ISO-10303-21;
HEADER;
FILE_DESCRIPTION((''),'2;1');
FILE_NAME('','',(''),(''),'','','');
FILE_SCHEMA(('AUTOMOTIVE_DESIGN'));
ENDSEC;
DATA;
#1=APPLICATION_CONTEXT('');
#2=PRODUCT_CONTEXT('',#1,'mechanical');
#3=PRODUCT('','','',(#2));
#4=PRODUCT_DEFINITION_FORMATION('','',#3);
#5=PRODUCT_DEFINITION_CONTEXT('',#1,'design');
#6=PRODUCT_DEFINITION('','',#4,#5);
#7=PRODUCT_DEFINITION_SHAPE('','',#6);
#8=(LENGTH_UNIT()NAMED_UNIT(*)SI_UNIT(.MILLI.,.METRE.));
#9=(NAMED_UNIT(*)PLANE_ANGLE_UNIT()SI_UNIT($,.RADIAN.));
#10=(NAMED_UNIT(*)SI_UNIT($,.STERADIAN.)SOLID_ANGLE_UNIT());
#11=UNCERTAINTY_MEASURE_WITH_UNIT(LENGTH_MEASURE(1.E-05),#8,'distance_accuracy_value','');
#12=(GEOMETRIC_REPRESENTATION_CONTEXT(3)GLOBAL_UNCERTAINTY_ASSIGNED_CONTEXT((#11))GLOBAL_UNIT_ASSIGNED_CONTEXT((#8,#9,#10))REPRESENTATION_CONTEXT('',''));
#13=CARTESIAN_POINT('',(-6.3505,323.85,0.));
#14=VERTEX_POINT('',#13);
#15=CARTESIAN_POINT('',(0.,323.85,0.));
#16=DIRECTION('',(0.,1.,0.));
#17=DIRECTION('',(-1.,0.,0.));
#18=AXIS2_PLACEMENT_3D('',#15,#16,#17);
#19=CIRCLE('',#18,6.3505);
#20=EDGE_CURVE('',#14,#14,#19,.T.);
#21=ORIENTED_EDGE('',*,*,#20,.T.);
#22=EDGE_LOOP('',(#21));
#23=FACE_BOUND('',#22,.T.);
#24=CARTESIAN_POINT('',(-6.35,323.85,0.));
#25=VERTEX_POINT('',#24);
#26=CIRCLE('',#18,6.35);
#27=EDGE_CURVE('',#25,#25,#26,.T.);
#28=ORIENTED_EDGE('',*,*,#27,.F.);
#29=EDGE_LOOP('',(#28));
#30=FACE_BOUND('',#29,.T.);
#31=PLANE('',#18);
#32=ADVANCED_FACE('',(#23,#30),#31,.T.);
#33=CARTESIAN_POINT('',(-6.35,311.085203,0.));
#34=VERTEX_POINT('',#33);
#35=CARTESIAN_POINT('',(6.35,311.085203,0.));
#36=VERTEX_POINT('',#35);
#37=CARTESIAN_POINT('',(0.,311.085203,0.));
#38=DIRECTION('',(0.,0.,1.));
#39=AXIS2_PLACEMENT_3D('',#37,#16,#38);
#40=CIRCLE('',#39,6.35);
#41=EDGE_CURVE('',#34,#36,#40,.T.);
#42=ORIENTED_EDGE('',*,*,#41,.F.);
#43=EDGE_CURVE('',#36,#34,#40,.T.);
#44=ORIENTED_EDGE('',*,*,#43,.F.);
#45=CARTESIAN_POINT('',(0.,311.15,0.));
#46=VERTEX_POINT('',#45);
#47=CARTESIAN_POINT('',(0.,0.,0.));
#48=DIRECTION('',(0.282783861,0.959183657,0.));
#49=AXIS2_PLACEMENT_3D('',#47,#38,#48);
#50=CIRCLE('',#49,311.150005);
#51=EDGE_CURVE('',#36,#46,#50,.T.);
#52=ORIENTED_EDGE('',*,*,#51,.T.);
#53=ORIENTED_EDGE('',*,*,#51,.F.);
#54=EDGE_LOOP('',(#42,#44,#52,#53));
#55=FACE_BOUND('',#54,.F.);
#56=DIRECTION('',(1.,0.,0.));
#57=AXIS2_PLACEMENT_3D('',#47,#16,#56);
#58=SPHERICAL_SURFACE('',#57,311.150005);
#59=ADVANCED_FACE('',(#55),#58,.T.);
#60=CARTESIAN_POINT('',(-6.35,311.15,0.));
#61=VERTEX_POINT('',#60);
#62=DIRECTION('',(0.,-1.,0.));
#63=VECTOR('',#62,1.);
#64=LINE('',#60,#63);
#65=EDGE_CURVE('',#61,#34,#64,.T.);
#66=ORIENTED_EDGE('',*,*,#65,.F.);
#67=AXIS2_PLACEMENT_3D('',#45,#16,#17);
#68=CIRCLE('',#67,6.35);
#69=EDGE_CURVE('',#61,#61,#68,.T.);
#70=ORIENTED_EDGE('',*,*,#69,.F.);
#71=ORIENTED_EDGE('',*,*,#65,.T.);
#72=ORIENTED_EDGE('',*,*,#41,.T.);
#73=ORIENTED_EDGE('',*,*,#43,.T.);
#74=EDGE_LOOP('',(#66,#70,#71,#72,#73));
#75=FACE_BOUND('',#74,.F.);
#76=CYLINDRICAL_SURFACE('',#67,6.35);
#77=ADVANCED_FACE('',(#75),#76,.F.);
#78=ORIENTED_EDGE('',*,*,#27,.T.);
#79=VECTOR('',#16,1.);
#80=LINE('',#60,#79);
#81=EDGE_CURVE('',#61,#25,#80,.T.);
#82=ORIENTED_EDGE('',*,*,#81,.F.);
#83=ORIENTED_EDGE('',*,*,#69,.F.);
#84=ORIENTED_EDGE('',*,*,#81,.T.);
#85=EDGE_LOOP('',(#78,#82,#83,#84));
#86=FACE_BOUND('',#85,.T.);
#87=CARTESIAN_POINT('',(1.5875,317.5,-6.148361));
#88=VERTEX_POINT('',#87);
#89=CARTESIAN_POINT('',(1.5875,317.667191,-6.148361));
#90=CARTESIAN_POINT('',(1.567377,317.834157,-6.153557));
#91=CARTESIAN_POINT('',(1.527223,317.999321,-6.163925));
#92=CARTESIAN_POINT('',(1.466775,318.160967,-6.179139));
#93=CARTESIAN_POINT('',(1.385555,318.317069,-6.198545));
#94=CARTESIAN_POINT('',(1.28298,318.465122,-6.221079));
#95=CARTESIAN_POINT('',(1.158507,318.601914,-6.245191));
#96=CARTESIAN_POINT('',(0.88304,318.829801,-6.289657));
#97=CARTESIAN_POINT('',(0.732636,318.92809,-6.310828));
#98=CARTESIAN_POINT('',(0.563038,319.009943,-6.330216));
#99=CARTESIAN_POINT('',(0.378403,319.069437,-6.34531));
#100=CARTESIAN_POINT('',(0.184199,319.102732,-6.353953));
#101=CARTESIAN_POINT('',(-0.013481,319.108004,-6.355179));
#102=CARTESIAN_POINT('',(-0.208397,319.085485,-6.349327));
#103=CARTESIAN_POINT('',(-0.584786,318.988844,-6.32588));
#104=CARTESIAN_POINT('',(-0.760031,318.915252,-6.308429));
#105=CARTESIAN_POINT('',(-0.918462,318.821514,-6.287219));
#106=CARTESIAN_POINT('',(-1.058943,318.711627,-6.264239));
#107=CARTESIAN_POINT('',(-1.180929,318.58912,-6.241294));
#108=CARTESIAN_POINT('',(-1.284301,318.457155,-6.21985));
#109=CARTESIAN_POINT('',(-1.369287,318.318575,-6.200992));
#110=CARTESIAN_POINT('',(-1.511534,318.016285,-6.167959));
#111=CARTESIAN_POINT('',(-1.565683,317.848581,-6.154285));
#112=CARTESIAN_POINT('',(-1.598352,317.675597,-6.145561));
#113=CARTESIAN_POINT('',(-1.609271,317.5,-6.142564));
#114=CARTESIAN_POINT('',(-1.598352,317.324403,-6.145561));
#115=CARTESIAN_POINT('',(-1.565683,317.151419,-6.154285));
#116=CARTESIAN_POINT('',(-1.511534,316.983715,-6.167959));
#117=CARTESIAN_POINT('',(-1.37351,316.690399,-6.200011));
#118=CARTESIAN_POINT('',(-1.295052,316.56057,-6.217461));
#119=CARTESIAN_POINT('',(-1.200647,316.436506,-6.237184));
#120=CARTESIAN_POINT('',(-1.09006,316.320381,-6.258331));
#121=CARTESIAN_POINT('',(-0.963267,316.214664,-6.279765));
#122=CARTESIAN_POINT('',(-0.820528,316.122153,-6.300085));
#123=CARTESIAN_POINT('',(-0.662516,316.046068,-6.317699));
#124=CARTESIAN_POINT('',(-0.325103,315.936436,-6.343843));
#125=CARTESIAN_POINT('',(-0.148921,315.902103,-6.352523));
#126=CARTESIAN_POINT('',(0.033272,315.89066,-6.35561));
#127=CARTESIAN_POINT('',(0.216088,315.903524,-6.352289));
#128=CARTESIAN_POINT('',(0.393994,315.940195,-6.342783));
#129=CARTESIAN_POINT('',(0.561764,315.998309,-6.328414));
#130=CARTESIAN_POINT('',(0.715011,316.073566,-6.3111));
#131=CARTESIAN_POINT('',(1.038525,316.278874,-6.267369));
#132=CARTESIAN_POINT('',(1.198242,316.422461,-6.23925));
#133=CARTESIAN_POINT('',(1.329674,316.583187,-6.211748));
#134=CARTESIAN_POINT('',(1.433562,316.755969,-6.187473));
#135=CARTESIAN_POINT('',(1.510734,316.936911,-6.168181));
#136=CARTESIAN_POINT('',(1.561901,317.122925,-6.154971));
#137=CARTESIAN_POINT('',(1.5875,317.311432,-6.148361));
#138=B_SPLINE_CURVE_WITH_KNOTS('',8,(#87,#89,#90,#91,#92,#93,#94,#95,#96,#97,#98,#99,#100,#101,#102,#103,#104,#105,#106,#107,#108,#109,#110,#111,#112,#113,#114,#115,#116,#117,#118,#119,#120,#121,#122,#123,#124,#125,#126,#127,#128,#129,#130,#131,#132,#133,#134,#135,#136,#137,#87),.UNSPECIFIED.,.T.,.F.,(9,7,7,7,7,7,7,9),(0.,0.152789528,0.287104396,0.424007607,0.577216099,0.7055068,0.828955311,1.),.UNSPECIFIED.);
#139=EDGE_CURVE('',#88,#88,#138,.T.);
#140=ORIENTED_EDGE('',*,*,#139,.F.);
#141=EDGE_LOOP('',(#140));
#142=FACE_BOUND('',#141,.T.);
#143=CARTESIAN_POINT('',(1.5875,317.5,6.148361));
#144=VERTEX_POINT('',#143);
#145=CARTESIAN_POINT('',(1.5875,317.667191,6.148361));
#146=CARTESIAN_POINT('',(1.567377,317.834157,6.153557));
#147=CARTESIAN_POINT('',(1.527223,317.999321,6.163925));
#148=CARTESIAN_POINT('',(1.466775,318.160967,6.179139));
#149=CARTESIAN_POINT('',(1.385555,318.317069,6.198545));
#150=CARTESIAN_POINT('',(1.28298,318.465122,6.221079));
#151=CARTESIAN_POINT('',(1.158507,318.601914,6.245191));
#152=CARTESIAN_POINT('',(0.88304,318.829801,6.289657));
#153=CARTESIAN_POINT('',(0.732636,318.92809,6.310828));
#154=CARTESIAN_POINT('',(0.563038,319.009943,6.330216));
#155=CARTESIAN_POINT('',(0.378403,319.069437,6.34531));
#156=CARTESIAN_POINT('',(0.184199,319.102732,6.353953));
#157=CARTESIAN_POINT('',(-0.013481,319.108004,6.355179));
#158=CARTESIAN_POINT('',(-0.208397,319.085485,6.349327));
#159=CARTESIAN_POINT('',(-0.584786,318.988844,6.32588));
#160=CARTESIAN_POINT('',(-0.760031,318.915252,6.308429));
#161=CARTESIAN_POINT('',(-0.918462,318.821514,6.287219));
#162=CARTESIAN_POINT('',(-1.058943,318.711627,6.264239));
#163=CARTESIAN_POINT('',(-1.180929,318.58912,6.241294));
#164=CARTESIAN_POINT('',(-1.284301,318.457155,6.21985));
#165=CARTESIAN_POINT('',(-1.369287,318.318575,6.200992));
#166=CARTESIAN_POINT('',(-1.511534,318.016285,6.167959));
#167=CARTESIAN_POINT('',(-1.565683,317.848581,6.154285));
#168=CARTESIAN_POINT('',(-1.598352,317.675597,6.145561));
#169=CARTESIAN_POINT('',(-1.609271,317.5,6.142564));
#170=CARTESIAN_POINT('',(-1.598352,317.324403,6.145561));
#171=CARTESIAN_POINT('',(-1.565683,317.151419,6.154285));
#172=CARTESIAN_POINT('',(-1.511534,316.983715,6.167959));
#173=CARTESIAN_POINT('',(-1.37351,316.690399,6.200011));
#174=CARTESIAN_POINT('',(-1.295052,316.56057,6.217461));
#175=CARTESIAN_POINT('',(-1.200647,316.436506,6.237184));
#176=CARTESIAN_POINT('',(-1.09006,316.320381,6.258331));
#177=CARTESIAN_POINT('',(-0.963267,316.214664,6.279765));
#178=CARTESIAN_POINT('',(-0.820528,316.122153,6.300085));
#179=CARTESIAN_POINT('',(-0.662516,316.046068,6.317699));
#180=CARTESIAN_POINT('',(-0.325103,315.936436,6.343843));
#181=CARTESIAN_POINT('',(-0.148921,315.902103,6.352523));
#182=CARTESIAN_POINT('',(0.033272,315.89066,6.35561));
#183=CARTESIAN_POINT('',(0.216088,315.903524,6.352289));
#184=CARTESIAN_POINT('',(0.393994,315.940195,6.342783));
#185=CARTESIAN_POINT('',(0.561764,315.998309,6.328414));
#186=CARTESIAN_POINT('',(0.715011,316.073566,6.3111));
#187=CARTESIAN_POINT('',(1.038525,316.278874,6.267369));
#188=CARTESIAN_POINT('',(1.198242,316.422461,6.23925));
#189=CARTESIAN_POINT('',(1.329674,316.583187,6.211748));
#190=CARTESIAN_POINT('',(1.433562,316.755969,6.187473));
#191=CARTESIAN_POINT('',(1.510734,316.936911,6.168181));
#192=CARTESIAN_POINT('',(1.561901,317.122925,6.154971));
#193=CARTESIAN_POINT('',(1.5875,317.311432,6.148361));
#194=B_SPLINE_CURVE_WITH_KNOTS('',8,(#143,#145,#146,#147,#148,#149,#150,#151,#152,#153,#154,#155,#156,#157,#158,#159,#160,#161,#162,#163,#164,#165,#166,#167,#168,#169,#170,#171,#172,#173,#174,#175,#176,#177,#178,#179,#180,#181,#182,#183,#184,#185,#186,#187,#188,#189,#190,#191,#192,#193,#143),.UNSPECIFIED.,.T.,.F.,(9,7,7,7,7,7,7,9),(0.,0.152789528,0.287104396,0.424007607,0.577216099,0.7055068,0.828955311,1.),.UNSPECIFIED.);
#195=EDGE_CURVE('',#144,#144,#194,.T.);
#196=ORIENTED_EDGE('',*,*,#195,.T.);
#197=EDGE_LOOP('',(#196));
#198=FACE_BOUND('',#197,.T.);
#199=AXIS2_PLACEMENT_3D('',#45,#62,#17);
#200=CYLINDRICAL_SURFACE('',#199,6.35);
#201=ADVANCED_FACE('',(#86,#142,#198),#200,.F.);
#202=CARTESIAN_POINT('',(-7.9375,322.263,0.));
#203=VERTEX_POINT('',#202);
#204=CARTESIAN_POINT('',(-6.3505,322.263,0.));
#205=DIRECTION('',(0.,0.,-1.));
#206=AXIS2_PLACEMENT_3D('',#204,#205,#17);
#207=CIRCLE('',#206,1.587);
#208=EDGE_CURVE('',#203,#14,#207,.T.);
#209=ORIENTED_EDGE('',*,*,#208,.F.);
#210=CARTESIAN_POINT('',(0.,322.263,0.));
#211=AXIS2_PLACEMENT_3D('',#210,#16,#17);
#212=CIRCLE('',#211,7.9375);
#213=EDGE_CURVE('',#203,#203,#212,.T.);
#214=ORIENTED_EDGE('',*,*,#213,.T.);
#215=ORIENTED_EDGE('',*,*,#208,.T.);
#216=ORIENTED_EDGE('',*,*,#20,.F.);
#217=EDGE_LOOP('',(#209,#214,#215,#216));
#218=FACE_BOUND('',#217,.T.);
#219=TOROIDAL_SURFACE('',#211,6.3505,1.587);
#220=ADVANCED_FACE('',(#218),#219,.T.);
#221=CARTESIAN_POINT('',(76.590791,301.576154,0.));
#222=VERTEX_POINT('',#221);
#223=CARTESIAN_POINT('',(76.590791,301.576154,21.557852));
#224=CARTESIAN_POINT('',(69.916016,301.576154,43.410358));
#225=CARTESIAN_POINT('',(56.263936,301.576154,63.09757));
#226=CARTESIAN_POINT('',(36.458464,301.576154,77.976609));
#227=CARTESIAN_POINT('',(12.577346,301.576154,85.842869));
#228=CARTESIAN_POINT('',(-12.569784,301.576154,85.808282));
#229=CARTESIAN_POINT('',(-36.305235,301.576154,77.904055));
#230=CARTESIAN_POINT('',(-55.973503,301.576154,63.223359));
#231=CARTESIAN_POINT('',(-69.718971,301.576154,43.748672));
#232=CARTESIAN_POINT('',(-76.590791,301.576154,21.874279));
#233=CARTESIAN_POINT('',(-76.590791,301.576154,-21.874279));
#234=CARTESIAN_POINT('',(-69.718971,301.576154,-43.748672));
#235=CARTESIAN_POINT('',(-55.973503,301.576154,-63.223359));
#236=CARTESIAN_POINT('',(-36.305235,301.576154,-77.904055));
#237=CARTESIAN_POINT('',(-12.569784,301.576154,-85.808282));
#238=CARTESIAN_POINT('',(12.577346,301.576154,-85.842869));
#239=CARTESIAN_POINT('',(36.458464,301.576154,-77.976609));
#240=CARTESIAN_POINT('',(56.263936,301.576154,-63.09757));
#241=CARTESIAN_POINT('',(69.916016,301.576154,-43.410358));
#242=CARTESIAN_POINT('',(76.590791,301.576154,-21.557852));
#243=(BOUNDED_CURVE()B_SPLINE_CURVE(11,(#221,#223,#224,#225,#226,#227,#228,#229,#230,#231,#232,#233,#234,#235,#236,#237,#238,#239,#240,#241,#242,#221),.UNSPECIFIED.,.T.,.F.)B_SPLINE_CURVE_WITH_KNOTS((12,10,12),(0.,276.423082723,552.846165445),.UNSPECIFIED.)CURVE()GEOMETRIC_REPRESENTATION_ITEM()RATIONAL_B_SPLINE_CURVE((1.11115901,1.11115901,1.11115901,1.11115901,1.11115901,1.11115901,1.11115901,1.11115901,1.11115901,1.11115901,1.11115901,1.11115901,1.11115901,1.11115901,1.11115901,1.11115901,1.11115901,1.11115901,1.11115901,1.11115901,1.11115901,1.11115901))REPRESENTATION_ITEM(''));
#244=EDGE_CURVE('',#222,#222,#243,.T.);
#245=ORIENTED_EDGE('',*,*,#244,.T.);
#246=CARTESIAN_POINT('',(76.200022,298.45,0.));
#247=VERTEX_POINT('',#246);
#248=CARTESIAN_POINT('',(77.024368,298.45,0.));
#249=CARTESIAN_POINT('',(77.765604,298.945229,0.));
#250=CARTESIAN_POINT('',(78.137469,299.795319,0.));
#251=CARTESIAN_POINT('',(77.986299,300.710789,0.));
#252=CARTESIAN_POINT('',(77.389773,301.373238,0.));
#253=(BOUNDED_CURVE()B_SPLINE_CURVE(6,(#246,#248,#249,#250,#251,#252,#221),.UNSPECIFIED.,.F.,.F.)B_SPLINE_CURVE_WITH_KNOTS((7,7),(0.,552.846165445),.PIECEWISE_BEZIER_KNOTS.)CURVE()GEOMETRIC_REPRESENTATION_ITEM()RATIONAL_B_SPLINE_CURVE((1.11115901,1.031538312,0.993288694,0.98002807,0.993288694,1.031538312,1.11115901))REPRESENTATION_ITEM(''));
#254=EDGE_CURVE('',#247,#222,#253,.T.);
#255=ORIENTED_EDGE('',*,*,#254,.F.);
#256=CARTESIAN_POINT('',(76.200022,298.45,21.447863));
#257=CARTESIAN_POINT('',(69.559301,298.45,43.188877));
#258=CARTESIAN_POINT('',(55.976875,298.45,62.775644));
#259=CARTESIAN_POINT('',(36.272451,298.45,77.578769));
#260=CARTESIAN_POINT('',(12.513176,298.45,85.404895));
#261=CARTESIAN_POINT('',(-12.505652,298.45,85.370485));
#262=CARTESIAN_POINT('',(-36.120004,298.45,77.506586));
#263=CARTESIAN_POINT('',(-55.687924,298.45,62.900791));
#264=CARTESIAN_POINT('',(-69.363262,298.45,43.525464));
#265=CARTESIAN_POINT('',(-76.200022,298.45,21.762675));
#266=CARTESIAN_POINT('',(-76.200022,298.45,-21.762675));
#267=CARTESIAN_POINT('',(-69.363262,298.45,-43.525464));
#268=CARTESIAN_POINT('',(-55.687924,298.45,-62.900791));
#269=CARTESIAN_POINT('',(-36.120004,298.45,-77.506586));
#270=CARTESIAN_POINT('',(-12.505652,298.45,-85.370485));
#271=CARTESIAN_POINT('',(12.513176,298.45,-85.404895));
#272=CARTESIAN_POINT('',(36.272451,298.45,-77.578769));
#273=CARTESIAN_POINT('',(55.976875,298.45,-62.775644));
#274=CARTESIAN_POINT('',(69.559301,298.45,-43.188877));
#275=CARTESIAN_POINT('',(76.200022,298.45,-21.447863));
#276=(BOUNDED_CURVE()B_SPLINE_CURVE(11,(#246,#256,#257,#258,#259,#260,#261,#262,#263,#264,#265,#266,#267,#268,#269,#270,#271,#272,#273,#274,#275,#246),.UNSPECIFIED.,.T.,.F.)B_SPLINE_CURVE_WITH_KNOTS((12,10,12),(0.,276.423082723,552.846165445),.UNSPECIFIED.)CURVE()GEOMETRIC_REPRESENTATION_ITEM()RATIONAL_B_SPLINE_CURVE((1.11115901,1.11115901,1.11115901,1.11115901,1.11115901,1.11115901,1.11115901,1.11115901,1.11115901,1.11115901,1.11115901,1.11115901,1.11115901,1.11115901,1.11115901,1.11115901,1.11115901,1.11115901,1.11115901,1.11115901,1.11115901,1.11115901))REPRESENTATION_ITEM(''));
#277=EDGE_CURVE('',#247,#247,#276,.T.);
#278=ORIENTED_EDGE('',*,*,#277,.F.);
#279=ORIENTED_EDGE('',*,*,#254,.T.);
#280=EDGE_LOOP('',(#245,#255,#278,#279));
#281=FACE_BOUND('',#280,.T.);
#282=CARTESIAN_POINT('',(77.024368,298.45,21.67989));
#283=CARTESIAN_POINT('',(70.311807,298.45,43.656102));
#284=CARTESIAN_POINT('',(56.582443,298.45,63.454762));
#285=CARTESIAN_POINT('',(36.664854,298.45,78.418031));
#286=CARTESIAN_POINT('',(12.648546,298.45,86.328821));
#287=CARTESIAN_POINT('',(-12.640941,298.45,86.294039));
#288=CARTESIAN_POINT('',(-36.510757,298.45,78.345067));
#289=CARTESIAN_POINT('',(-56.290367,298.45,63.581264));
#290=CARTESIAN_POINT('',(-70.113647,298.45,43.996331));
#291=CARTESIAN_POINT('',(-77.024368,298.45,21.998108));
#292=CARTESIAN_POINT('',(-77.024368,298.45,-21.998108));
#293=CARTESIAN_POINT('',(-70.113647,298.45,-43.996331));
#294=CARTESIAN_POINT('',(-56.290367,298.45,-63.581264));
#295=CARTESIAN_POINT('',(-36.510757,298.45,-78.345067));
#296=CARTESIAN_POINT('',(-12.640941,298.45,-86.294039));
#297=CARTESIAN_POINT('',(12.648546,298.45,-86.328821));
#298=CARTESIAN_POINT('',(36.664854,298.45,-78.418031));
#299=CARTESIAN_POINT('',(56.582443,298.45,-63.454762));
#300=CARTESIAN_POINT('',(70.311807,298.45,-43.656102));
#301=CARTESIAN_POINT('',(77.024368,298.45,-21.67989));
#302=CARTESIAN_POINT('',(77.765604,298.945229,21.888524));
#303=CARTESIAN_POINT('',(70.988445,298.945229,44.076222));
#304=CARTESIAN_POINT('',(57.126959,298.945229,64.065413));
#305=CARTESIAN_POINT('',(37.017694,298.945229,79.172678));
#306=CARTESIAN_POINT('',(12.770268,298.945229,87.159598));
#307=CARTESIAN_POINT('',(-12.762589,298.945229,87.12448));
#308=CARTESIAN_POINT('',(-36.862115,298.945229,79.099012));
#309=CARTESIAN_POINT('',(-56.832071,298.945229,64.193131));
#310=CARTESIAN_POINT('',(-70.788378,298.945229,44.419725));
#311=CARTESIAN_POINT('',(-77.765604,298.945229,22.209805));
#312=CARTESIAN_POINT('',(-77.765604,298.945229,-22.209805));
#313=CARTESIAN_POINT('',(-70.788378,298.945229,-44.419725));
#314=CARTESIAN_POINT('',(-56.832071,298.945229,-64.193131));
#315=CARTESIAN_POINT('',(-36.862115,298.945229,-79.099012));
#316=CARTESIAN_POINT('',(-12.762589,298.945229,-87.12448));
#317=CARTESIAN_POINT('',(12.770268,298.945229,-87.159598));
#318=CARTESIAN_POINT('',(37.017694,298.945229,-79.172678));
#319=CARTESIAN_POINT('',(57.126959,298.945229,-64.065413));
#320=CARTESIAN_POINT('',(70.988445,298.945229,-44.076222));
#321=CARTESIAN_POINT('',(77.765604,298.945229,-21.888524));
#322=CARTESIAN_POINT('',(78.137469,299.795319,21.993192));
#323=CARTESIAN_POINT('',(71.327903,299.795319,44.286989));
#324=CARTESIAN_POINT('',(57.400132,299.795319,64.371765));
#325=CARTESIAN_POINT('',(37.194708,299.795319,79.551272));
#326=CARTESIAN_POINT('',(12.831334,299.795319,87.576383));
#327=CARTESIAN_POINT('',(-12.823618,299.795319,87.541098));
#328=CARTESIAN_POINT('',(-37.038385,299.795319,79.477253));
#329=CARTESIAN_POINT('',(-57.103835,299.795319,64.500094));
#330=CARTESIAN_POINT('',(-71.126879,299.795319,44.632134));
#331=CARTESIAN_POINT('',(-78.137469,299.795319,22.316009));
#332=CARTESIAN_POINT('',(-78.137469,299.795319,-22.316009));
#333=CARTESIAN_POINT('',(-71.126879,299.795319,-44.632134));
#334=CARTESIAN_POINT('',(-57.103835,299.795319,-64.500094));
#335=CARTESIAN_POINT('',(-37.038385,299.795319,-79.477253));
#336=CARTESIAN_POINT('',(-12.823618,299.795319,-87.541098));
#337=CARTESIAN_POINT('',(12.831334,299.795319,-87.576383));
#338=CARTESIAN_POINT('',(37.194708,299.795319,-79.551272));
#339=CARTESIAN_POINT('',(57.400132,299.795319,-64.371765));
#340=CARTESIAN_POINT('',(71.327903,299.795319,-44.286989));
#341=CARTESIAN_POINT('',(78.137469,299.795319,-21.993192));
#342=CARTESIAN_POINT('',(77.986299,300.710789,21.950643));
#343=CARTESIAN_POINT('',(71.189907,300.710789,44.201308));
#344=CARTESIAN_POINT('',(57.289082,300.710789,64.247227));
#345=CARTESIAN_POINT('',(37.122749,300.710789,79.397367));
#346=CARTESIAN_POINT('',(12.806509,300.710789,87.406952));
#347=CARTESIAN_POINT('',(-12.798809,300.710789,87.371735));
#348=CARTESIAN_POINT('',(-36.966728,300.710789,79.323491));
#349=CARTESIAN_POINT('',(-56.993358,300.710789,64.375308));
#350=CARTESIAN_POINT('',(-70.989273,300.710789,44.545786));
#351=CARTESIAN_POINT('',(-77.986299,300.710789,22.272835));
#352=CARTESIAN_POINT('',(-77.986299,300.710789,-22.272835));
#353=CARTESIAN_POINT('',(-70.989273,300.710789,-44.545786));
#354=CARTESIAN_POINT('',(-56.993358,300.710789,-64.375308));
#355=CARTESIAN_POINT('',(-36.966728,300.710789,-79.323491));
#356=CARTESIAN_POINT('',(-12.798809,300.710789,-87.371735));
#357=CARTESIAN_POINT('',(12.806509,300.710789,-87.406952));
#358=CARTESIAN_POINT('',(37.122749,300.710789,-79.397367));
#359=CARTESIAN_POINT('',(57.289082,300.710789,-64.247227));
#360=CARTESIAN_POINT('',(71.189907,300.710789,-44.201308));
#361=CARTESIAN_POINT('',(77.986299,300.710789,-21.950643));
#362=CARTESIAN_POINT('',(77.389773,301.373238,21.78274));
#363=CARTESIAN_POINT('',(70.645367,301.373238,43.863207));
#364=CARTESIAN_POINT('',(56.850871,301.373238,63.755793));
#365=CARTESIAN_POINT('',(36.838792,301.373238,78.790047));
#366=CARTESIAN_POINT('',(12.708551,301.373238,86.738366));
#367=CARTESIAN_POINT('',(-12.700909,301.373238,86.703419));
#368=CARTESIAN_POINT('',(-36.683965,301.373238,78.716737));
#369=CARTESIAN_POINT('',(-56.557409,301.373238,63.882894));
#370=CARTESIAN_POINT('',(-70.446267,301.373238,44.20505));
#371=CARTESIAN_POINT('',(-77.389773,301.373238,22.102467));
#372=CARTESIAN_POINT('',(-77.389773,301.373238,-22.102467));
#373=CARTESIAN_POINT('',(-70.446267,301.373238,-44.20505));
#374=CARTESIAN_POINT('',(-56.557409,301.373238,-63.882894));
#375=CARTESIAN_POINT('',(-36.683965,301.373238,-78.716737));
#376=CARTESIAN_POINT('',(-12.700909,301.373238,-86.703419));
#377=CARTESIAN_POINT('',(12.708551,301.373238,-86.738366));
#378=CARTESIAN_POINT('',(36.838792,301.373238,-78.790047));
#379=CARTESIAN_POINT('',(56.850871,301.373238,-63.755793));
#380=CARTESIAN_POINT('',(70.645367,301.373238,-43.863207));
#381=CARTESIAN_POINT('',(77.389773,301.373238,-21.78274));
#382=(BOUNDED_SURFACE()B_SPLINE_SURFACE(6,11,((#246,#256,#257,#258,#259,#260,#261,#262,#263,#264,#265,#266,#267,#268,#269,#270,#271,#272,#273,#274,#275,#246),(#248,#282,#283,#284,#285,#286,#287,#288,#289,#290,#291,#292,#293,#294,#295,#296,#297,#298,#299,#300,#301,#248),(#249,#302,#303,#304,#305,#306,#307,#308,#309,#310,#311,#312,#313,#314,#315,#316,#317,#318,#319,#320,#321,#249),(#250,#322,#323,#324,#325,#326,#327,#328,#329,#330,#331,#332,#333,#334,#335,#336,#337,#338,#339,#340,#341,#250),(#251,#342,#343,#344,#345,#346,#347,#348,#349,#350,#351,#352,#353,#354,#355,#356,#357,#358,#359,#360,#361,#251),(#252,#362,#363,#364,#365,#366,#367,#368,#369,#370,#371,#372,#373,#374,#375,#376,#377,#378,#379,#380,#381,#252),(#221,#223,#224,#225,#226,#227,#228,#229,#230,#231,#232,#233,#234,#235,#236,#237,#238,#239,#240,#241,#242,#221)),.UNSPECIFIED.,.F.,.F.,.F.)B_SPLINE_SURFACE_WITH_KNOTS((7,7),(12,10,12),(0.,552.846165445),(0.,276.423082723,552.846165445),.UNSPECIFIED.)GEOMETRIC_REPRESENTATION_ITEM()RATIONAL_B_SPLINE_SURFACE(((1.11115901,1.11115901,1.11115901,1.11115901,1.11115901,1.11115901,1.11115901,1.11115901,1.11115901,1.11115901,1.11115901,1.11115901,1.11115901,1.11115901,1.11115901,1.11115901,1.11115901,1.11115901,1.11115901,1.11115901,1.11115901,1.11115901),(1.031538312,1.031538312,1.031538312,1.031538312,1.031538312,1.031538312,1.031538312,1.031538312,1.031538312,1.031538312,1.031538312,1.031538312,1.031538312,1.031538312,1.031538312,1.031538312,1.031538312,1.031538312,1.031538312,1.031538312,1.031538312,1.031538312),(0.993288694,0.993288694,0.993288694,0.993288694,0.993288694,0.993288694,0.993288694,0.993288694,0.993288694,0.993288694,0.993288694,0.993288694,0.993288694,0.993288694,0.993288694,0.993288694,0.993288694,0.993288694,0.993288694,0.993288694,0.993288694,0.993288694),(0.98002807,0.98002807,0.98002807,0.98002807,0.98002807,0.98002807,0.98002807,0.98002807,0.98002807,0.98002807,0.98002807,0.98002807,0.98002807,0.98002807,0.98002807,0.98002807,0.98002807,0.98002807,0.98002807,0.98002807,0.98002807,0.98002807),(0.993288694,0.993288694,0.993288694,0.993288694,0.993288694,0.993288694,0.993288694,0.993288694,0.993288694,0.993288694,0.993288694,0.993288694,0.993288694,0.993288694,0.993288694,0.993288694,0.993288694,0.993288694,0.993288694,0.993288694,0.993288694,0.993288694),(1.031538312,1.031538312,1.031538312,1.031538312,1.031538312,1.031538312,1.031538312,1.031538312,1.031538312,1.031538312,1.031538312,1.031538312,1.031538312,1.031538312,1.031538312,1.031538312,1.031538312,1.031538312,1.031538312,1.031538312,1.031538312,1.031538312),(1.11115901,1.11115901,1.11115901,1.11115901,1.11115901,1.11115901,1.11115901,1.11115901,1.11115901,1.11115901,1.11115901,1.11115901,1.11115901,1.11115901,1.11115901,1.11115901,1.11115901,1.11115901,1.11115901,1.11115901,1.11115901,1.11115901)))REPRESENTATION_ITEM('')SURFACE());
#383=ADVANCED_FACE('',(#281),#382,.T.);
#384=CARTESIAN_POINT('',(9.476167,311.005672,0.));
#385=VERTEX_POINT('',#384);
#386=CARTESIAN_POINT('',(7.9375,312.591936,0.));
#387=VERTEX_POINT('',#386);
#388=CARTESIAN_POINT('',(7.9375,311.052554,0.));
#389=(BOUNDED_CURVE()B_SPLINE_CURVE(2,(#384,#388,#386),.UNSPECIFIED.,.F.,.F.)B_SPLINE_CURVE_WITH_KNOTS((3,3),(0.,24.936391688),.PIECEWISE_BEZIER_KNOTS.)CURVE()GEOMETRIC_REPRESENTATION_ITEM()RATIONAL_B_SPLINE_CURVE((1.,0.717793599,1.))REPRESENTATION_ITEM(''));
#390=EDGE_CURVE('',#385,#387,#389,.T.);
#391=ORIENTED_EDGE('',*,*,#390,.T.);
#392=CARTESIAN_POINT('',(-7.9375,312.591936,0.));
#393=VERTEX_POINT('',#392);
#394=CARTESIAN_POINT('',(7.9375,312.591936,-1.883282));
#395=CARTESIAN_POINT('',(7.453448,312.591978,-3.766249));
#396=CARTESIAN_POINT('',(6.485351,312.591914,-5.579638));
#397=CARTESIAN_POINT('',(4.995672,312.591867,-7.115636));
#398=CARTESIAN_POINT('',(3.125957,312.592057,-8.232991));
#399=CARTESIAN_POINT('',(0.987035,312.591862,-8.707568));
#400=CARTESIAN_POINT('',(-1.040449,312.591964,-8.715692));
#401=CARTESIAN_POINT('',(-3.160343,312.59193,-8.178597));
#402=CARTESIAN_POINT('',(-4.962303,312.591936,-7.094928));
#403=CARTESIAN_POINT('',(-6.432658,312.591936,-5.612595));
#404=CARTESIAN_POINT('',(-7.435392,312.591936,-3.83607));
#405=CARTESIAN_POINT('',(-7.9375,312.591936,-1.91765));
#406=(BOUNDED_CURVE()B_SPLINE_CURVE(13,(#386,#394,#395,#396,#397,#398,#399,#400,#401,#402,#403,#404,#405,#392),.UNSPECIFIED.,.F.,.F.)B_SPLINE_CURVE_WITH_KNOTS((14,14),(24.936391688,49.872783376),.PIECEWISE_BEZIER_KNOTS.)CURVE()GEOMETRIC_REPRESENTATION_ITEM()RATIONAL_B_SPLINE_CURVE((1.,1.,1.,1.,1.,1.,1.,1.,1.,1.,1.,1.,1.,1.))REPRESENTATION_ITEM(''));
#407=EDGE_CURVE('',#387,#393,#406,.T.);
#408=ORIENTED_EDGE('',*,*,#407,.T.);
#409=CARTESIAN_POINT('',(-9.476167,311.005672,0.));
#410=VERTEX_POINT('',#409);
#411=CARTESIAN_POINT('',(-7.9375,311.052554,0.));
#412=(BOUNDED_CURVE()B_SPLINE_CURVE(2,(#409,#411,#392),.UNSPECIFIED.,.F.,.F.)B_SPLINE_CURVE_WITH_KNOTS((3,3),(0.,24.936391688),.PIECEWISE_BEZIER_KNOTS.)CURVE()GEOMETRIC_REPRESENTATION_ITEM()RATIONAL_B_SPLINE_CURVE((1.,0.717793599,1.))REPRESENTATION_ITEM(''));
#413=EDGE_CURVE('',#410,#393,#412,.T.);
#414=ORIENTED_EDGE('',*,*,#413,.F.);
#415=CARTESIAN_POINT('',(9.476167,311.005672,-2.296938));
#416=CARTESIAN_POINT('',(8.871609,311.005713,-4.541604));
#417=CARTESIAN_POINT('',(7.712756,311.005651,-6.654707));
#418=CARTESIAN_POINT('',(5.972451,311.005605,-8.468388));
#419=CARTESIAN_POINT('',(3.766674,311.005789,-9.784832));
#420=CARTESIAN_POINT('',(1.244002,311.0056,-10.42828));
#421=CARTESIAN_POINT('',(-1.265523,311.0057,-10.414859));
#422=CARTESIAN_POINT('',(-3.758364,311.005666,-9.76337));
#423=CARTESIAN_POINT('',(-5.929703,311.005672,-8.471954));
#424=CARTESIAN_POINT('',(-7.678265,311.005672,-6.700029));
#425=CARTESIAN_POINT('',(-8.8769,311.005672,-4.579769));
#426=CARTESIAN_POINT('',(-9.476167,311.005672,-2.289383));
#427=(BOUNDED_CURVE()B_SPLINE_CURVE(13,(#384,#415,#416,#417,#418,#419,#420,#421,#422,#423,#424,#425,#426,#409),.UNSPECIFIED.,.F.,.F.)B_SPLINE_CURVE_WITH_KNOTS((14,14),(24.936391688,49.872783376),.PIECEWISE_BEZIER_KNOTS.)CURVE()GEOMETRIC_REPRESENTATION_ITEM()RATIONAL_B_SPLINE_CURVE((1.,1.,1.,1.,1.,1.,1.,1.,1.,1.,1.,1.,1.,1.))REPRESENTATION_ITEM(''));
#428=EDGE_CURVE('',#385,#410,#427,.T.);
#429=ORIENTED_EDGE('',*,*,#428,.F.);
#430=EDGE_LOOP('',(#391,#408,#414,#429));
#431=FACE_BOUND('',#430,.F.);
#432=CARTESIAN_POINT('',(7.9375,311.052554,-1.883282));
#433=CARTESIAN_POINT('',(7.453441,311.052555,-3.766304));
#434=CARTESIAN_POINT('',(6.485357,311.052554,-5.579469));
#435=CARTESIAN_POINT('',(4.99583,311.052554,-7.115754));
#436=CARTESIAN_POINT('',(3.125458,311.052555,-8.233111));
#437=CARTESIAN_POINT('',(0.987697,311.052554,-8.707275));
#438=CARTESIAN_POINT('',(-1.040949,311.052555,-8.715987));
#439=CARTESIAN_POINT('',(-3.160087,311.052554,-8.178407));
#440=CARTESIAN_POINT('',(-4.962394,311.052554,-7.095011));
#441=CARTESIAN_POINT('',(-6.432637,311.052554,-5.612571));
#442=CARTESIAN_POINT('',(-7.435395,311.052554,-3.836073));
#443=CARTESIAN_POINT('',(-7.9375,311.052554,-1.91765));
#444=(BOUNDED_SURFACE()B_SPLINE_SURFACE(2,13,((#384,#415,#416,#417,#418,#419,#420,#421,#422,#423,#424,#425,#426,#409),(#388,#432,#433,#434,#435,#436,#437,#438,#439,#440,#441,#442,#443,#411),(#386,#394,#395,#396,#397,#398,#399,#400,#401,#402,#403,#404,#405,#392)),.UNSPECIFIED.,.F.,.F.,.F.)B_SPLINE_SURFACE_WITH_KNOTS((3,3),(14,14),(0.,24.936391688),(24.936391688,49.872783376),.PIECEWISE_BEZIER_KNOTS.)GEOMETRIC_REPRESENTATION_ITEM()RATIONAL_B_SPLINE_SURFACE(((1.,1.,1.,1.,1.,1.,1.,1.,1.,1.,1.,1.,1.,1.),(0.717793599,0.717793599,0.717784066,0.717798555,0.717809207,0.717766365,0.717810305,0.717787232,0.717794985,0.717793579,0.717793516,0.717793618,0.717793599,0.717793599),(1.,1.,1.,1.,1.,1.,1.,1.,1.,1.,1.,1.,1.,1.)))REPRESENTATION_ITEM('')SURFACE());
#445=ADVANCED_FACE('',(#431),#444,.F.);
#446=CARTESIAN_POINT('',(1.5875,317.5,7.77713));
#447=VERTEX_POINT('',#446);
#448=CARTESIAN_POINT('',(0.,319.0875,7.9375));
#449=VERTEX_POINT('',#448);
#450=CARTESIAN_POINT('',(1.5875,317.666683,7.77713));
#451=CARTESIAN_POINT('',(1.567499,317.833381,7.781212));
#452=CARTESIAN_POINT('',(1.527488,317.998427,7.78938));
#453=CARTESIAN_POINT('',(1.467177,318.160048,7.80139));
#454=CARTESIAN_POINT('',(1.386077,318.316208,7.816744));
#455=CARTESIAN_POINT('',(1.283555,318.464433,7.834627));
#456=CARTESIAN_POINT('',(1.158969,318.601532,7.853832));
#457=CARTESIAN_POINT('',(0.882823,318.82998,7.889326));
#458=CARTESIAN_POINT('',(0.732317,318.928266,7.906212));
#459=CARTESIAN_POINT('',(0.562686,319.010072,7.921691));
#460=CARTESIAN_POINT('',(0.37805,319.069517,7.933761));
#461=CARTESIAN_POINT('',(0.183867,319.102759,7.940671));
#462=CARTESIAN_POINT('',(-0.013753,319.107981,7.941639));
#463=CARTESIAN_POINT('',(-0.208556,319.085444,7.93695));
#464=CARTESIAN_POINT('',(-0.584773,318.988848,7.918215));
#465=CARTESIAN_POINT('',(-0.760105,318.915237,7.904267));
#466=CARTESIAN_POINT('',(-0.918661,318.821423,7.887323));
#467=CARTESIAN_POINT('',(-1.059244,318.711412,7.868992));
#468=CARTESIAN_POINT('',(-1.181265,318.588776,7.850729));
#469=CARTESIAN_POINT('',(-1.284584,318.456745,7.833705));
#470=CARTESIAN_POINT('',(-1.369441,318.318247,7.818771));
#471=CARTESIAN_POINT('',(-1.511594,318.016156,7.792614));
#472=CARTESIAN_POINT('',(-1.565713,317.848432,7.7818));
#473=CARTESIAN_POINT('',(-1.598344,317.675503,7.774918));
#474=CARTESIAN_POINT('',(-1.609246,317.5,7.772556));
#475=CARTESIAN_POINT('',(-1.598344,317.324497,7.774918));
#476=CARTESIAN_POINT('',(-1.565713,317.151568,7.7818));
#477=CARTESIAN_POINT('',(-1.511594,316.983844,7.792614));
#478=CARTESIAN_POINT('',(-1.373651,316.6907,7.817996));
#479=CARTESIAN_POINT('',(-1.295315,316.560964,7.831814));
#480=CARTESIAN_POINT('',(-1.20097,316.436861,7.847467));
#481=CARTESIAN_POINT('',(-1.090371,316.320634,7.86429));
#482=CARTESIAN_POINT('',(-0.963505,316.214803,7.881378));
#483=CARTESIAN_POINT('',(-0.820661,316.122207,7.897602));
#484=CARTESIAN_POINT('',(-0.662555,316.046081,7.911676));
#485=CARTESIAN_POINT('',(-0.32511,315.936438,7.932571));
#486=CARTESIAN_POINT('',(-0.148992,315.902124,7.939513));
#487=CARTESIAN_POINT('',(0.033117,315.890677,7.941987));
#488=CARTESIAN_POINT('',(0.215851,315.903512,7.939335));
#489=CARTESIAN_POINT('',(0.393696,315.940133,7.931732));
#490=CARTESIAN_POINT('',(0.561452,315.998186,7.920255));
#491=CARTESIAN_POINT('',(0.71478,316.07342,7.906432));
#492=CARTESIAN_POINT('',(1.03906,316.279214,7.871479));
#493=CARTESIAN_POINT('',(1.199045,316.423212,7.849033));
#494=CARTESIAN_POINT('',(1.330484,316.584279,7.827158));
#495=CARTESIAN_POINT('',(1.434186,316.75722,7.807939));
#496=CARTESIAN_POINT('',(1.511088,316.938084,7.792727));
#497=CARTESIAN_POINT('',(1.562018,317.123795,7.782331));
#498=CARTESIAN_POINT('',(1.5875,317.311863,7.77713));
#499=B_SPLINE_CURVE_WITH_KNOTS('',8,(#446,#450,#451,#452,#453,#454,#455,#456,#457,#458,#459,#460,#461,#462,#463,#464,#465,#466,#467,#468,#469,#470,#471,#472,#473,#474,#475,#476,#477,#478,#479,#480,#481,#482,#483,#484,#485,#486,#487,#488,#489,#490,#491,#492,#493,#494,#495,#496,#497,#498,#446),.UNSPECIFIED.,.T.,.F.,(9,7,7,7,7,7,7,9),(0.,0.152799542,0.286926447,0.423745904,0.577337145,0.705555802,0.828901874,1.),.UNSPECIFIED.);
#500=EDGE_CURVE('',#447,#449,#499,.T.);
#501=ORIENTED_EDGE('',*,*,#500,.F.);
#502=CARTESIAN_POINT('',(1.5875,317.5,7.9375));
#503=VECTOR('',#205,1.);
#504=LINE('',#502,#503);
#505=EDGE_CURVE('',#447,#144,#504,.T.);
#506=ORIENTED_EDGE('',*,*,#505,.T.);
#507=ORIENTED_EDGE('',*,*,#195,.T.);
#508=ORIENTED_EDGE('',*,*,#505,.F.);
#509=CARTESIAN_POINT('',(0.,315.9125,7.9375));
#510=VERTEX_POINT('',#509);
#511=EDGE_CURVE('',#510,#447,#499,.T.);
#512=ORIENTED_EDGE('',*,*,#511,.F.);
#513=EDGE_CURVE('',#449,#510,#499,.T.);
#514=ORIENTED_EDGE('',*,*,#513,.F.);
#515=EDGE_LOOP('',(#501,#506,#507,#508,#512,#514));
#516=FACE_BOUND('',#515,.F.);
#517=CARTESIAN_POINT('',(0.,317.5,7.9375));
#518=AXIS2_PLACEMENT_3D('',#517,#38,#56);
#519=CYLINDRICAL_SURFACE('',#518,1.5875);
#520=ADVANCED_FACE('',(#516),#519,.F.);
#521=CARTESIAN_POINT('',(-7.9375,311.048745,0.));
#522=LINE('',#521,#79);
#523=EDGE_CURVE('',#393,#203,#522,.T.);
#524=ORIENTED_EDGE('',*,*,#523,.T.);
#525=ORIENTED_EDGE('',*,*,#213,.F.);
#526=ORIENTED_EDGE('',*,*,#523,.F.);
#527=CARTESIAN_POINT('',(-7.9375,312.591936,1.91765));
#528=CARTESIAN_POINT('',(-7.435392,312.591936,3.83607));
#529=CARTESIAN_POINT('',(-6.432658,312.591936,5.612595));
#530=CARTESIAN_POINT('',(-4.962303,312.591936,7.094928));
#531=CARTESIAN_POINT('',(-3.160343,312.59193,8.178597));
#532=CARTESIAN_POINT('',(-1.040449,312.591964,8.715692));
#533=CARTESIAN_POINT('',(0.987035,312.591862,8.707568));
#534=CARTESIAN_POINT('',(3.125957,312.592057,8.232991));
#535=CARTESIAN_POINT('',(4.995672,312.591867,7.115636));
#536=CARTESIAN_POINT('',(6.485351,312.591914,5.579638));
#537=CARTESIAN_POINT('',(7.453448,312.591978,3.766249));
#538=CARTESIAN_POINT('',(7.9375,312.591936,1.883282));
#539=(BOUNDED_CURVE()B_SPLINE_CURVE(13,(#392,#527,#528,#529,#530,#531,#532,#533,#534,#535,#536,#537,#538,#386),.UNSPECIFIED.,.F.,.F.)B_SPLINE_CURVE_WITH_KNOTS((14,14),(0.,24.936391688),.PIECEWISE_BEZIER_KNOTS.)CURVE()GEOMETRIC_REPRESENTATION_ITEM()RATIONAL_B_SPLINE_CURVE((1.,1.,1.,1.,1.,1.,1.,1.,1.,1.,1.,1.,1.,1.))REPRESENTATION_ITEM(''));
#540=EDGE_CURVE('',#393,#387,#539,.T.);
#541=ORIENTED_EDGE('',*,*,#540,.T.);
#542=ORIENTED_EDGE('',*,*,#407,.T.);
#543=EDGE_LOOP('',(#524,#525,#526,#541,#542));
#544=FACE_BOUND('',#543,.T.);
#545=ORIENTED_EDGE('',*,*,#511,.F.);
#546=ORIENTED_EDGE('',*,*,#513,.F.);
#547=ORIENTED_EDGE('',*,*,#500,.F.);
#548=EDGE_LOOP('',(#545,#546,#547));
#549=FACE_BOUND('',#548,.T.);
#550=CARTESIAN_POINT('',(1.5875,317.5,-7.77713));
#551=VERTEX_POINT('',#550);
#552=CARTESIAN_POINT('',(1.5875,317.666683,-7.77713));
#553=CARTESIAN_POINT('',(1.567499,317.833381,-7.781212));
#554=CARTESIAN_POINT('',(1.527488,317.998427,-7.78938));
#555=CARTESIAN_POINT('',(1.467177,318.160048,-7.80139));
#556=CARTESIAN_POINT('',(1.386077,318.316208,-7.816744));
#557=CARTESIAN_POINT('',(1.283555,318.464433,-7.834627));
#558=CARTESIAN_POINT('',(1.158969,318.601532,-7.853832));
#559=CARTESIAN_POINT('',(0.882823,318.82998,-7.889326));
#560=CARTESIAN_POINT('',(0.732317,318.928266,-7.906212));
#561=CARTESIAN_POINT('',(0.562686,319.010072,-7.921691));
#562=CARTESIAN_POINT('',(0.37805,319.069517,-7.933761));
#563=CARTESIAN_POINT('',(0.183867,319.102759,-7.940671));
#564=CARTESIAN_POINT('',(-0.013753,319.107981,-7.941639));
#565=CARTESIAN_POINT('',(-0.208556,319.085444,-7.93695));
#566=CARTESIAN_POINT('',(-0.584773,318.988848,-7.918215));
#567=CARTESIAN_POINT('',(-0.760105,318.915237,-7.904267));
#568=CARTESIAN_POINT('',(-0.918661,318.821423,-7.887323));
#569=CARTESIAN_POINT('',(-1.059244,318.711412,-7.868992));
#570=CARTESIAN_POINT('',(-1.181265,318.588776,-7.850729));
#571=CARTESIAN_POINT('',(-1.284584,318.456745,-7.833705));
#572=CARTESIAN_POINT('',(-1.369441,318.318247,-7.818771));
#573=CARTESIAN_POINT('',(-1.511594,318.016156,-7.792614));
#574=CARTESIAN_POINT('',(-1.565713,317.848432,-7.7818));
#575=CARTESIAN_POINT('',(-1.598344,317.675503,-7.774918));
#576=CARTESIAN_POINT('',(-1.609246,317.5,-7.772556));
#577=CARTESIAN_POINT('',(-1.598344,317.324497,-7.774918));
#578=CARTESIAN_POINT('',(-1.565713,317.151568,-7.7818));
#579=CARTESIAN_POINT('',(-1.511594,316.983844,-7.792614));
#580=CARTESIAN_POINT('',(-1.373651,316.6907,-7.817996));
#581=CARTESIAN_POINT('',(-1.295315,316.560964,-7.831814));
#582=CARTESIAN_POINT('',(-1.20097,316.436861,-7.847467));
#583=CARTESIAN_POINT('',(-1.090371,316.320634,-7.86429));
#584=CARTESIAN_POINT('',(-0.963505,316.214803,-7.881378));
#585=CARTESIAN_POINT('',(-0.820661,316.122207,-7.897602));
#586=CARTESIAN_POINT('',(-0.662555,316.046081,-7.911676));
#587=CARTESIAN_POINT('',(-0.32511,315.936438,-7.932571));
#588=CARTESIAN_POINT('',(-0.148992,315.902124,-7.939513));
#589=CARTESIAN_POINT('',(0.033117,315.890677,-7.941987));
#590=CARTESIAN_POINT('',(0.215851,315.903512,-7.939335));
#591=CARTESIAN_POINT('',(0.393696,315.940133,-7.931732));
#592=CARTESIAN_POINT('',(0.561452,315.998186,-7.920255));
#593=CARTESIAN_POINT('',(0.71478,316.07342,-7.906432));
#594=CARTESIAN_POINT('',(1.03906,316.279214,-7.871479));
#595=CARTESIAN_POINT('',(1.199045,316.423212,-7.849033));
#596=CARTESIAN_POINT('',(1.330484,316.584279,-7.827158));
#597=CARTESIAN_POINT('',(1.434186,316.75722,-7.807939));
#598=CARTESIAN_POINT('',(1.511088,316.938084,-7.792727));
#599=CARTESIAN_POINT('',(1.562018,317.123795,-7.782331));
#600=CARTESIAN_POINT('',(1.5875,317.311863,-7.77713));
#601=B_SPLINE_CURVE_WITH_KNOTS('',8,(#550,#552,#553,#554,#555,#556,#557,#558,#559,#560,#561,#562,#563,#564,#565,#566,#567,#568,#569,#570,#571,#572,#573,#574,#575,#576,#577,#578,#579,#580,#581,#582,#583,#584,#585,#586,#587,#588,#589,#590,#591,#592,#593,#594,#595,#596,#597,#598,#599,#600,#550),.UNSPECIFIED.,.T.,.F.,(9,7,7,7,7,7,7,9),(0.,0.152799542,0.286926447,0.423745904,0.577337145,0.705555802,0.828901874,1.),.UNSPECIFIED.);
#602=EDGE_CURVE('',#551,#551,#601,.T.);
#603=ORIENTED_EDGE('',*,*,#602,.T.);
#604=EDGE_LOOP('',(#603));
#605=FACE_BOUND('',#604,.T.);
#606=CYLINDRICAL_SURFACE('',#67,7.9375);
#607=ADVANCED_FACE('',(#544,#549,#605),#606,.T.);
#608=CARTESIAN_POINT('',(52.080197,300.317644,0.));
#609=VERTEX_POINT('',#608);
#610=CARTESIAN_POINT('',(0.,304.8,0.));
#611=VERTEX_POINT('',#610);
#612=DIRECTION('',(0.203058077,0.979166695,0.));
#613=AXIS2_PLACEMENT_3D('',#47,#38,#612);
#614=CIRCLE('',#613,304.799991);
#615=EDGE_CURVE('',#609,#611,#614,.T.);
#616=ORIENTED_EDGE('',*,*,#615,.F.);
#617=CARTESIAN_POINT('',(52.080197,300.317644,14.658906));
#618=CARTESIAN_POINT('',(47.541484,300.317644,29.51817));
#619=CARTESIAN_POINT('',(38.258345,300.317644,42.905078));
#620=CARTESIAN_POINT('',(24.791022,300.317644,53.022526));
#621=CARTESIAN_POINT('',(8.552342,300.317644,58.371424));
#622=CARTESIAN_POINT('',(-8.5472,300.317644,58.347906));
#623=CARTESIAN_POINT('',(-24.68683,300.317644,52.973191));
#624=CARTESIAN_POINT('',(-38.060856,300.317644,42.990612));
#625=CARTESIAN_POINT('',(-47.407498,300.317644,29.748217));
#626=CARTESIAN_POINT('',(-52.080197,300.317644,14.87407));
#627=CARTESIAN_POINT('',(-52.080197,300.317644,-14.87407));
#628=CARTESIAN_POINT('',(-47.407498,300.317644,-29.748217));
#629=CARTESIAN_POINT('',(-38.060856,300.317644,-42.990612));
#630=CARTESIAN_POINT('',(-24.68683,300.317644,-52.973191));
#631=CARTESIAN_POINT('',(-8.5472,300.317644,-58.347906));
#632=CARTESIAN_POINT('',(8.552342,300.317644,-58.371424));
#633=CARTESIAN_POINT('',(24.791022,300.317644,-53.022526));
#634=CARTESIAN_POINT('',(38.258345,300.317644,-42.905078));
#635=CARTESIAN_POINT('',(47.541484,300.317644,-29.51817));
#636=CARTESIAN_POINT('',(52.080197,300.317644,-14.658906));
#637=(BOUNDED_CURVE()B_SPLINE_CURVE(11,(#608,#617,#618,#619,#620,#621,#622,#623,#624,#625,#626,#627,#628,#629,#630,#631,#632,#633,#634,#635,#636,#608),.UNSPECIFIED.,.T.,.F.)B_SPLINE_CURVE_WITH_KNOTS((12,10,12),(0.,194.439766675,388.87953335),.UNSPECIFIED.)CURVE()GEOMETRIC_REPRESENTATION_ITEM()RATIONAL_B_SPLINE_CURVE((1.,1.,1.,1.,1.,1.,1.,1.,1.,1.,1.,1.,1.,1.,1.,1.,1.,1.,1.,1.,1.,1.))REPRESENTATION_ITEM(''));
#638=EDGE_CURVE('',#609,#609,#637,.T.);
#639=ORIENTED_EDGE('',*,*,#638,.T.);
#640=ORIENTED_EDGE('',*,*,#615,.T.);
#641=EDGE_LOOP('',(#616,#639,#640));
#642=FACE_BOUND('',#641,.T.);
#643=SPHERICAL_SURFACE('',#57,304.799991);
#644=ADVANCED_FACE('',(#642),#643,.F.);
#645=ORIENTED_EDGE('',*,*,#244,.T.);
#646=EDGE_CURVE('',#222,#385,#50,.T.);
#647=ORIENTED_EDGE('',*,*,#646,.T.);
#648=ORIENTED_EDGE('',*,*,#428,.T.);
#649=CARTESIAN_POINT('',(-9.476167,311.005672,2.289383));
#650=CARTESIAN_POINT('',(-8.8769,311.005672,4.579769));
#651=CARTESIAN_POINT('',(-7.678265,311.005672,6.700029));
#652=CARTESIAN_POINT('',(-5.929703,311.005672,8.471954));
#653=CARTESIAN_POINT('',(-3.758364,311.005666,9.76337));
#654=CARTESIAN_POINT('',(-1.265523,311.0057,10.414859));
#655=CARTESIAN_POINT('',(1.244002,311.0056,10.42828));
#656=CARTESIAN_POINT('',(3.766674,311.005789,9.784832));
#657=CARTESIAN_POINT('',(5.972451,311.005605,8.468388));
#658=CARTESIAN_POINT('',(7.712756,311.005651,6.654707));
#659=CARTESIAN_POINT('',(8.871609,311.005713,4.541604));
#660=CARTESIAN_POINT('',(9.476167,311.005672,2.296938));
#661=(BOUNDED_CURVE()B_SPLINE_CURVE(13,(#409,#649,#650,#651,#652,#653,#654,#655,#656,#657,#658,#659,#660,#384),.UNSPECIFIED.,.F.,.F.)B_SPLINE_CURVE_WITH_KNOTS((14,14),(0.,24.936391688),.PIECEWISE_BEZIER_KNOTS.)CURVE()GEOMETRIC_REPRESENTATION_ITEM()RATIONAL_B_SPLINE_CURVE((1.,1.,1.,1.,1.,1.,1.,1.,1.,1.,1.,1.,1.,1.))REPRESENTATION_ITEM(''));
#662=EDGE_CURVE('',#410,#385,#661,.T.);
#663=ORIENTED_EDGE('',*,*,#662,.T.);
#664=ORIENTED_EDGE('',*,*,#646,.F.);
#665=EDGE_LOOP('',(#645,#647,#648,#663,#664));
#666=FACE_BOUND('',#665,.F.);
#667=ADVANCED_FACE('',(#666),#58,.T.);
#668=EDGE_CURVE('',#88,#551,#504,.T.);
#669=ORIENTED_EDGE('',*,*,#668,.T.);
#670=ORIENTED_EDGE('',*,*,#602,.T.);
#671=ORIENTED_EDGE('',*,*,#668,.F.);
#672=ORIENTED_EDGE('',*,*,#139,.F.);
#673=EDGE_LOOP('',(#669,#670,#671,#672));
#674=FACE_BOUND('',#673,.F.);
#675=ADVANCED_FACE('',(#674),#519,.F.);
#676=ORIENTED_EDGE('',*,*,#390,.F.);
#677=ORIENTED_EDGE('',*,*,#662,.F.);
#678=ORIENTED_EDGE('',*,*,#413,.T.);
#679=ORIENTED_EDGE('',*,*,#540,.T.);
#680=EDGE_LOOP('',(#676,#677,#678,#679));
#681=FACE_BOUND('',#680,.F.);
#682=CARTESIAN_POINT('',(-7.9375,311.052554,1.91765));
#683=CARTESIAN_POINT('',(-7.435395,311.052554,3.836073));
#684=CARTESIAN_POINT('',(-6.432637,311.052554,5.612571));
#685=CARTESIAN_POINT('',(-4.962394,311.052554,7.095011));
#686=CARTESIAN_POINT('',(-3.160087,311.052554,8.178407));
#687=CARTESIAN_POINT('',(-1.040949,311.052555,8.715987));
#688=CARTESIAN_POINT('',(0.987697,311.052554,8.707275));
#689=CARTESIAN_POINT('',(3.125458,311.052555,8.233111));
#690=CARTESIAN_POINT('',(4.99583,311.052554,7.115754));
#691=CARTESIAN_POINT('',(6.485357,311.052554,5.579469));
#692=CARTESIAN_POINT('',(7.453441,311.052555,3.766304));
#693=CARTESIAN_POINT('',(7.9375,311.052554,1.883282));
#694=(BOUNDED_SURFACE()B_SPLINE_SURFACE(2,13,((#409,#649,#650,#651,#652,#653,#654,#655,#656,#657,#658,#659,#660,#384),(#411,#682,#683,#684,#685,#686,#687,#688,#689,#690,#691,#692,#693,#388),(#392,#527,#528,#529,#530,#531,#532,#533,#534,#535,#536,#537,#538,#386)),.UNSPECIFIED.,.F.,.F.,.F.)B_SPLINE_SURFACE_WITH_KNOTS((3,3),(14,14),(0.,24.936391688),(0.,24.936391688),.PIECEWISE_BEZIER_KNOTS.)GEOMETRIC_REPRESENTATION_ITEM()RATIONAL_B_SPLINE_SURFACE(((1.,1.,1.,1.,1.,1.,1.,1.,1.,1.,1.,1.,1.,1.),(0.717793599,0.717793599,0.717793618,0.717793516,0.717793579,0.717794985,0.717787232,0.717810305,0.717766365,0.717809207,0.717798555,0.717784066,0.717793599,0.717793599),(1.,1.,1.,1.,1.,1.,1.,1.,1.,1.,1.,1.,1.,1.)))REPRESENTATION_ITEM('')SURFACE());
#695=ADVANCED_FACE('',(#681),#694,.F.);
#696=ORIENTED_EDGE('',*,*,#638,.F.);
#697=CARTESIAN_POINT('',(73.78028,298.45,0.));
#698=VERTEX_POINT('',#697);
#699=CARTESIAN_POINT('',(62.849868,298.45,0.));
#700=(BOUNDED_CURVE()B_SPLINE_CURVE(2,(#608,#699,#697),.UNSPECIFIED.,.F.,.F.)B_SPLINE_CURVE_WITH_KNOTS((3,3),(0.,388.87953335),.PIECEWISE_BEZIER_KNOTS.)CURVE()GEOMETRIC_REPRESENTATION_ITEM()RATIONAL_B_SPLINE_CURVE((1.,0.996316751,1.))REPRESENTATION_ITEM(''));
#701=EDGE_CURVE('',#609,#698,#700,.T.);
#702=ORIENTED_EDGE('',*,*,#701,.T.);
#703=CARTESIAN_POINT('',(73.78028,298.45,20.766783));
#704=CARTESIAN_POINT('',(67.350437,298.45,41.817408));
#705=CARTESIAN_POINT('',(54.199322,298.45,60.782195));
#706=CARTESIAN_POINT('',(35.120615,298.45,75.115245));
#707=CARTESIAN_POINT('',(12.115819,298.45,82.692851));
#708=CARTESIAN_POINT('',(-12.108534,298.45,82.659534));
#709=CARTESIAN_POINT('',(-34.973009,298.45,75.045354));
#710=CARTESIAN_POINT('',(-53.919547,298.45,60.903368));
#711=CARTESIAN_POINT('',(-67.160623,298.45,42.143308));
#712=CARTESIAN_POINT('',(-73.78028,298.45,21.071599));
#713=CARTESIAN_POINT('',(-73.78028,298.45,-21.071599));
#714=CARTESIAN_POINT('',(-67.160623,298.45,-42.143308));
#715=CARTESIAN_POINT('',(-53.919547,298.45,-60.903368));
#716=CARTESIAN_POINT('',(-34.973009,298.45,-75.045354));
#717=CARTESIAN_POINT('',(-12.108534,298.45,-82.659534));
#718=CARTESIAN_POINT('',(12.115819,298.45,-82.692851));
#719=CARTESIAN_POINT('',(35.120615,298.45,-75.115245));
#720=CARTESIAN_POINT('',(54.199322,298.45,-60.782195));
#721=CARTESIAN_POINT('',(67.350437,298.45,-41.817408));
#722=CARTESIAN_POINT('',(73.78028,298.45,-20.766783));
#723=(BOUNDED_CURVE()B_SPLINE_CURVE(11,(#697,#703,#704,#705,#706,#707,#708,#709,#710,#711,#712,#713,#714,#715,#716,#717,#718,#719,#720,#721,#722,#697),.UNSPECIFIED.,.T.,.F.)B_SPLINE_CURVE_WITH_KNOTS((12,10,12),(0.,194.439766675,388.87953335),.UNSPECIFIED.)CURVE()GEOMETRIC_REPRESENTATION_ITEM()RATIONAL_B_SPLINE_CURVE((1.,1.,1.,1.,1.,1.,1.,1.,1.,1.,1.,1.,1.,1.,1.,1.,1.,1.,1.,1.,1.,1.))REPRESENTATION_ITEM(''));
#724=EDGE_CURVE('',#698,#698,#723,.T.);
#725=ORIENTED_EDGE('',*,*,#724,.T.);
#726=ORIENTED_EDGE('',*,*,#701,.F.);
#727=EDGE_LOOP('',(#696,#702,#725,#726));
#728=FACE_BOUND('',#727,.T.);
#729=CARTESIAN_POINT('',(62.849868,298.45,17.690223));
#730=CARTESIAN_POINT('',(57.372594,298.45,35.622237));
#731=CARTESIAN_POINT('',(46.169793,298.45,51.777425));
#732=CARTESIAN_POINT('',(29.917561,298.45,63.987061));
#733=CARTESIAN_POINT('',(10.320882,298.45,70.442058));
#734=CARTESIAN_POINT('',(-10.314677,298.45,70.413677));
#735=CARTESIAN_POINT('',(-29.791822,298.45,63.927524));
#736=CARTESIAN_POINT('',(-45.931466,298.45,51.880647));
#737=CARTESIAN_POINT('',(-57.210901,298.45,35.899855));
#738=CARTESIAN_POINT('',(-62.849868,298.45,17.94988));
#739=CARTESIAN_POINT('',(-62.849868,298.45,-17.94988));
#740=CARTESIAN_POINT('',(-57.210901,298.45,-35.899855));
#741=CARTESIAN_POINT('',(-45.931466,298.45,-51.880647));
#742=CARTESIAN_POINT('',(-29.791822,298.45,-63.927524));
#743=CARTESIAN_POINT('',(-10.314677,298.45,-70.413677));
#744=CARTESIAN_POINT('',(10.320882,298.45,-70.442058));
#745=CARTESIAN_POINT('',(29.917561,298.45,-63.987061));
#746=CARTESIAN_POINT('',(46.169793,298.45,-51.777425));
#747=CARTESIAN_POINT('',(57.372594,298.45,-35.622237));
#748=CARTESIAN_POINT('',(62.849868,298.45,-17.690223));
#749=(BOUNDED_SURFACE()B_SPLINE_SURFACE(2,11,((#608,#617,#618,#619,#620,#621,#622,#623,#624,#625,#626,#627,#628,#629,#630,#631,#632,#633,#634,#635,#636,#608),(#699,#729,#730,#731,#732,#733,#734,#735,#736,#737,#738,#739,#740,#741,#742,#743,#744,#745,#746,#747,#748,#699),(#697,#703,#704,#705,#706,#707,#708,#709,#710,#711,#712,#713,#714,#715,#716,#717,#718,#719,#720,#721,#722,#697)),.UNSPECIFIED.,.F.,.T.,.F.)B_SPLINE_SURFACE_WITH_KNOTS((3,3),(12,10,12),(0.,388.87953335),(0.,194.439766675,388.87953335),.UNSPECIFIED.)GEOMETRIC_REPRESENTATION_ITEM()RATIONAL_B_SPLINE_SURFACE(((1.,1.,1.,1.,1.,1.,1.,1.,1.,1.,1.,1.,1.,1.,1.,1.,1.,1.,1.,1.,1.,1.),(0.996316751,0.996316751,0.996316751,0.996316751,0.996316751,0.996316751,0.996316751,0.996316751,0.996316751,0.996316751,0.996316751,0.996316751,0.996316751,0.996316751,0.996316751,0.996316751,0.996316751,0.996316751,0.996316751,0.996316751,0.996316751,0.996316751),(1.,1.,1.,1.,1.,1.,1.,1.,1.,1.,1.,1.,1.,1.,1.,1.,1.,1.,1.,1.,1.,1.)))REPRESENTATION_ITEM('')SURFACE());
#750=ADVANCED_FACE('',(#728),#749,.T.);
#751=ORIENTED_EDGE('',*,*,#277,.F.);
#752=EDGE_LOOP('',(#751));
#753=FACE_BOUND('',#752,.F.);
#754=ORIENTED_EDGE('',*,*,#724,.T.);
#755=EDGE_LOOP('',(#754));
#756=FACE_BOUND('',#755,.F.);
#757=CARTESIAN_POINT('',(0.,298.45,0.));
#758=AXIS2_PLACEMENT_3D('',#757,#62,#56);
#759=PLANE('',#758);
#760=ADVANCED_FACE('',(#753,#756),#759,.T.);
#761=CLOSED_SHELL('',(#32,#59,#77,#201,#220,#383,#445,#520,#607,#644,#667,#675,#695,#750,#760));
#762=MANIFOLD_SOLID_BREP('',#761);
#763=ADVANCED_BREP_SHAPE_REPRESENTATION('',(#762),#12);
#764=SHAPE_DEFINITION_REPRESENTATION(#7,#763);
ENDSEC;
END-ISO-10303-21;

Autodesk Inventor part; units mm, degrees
ref_plane "YZ Plane" through (0, 0, 0) normal (1, 0, 0) x (0, 1, 0)
sketch "Sketch1" plane through (0, 0, 0) normal (0, 0, 1) x (1, 0, 0)
  arc A0 (61.8921, 298.45) -> (-61.8921, 298.45) centre (0, 0) ccw
  line L0 (-61.8921, 298.45) -> (61.8921, 298.45)
  arc A1 (87.9882, 298.45) -> (-87.9882, 298.45) centre (0, 0) ccw
  line L1 (-61.8921, 298.45) -> (-87.9882, 298.45)
  line L2 (61.8921, 298.45) -> (87.9882, 298.45)
  line L3 (0, 311.15) -> (0, 304.8)
  dimension "d0" = 609.6
  dimension "d1" = 298.45
  dimension "d2" = 6.35
revolve "Revolution1" add sketch "Sketch1" angle 360 about axis through (0, 311.15, 0) along (0, -1, 0) contours A0 L3 A1 L2
fillet "Fillet1" radius 127 1 edges at (-61.8921, 298.45, 0)
fillet "Fillet2" radius 1.5875 1 edges at (-87.9882, 298.45, 0)
ref_plane "Work Plane1" through (0, 311.15, 0) normal (0, 1, 0) x (-1, 0, 0)
sketch "Sketch2" plane through (0, 311.15, 0) normal (0, 1, 0) x (-1, 0, 0)
  circle A0 centre (0, 0) radius 6.35
  circle A1 centre (0, 0) radius 7.9375
  dimension "d6" = 12.7
  dimension "d7" = 15.875
extrude "Extrusion1" add sketch "Sketch2" along normal blind 12.7 and the other way blind 2.54
ref_plane "Work Plane2" through (0, 311.15, 7.9375) normal (0, 0, 1) x (1, 0, 0)
fillet "Fillet3" radius 1.5875 3 edges at (7.9375, 323.85, 0) (0.0002, 311.0487, 7.9375) (0, 311.0487, -7.9375)
sketch "Sketch3" plane through (0, 311.15, 7.9375) normal (0, 0, 1) x (1, 0, 0)
  circle A0 centre (0, 6.35) radius 1.5875
  line L0 (0, 6.35) -> (0, -311.15) construction
  dimension "d12" = 3.175
  dimension "d13" = 317.5
extrude "Extrusion2" cut sketch "Sketch3" against normal blind 25.4
properties part number "Launcher"
